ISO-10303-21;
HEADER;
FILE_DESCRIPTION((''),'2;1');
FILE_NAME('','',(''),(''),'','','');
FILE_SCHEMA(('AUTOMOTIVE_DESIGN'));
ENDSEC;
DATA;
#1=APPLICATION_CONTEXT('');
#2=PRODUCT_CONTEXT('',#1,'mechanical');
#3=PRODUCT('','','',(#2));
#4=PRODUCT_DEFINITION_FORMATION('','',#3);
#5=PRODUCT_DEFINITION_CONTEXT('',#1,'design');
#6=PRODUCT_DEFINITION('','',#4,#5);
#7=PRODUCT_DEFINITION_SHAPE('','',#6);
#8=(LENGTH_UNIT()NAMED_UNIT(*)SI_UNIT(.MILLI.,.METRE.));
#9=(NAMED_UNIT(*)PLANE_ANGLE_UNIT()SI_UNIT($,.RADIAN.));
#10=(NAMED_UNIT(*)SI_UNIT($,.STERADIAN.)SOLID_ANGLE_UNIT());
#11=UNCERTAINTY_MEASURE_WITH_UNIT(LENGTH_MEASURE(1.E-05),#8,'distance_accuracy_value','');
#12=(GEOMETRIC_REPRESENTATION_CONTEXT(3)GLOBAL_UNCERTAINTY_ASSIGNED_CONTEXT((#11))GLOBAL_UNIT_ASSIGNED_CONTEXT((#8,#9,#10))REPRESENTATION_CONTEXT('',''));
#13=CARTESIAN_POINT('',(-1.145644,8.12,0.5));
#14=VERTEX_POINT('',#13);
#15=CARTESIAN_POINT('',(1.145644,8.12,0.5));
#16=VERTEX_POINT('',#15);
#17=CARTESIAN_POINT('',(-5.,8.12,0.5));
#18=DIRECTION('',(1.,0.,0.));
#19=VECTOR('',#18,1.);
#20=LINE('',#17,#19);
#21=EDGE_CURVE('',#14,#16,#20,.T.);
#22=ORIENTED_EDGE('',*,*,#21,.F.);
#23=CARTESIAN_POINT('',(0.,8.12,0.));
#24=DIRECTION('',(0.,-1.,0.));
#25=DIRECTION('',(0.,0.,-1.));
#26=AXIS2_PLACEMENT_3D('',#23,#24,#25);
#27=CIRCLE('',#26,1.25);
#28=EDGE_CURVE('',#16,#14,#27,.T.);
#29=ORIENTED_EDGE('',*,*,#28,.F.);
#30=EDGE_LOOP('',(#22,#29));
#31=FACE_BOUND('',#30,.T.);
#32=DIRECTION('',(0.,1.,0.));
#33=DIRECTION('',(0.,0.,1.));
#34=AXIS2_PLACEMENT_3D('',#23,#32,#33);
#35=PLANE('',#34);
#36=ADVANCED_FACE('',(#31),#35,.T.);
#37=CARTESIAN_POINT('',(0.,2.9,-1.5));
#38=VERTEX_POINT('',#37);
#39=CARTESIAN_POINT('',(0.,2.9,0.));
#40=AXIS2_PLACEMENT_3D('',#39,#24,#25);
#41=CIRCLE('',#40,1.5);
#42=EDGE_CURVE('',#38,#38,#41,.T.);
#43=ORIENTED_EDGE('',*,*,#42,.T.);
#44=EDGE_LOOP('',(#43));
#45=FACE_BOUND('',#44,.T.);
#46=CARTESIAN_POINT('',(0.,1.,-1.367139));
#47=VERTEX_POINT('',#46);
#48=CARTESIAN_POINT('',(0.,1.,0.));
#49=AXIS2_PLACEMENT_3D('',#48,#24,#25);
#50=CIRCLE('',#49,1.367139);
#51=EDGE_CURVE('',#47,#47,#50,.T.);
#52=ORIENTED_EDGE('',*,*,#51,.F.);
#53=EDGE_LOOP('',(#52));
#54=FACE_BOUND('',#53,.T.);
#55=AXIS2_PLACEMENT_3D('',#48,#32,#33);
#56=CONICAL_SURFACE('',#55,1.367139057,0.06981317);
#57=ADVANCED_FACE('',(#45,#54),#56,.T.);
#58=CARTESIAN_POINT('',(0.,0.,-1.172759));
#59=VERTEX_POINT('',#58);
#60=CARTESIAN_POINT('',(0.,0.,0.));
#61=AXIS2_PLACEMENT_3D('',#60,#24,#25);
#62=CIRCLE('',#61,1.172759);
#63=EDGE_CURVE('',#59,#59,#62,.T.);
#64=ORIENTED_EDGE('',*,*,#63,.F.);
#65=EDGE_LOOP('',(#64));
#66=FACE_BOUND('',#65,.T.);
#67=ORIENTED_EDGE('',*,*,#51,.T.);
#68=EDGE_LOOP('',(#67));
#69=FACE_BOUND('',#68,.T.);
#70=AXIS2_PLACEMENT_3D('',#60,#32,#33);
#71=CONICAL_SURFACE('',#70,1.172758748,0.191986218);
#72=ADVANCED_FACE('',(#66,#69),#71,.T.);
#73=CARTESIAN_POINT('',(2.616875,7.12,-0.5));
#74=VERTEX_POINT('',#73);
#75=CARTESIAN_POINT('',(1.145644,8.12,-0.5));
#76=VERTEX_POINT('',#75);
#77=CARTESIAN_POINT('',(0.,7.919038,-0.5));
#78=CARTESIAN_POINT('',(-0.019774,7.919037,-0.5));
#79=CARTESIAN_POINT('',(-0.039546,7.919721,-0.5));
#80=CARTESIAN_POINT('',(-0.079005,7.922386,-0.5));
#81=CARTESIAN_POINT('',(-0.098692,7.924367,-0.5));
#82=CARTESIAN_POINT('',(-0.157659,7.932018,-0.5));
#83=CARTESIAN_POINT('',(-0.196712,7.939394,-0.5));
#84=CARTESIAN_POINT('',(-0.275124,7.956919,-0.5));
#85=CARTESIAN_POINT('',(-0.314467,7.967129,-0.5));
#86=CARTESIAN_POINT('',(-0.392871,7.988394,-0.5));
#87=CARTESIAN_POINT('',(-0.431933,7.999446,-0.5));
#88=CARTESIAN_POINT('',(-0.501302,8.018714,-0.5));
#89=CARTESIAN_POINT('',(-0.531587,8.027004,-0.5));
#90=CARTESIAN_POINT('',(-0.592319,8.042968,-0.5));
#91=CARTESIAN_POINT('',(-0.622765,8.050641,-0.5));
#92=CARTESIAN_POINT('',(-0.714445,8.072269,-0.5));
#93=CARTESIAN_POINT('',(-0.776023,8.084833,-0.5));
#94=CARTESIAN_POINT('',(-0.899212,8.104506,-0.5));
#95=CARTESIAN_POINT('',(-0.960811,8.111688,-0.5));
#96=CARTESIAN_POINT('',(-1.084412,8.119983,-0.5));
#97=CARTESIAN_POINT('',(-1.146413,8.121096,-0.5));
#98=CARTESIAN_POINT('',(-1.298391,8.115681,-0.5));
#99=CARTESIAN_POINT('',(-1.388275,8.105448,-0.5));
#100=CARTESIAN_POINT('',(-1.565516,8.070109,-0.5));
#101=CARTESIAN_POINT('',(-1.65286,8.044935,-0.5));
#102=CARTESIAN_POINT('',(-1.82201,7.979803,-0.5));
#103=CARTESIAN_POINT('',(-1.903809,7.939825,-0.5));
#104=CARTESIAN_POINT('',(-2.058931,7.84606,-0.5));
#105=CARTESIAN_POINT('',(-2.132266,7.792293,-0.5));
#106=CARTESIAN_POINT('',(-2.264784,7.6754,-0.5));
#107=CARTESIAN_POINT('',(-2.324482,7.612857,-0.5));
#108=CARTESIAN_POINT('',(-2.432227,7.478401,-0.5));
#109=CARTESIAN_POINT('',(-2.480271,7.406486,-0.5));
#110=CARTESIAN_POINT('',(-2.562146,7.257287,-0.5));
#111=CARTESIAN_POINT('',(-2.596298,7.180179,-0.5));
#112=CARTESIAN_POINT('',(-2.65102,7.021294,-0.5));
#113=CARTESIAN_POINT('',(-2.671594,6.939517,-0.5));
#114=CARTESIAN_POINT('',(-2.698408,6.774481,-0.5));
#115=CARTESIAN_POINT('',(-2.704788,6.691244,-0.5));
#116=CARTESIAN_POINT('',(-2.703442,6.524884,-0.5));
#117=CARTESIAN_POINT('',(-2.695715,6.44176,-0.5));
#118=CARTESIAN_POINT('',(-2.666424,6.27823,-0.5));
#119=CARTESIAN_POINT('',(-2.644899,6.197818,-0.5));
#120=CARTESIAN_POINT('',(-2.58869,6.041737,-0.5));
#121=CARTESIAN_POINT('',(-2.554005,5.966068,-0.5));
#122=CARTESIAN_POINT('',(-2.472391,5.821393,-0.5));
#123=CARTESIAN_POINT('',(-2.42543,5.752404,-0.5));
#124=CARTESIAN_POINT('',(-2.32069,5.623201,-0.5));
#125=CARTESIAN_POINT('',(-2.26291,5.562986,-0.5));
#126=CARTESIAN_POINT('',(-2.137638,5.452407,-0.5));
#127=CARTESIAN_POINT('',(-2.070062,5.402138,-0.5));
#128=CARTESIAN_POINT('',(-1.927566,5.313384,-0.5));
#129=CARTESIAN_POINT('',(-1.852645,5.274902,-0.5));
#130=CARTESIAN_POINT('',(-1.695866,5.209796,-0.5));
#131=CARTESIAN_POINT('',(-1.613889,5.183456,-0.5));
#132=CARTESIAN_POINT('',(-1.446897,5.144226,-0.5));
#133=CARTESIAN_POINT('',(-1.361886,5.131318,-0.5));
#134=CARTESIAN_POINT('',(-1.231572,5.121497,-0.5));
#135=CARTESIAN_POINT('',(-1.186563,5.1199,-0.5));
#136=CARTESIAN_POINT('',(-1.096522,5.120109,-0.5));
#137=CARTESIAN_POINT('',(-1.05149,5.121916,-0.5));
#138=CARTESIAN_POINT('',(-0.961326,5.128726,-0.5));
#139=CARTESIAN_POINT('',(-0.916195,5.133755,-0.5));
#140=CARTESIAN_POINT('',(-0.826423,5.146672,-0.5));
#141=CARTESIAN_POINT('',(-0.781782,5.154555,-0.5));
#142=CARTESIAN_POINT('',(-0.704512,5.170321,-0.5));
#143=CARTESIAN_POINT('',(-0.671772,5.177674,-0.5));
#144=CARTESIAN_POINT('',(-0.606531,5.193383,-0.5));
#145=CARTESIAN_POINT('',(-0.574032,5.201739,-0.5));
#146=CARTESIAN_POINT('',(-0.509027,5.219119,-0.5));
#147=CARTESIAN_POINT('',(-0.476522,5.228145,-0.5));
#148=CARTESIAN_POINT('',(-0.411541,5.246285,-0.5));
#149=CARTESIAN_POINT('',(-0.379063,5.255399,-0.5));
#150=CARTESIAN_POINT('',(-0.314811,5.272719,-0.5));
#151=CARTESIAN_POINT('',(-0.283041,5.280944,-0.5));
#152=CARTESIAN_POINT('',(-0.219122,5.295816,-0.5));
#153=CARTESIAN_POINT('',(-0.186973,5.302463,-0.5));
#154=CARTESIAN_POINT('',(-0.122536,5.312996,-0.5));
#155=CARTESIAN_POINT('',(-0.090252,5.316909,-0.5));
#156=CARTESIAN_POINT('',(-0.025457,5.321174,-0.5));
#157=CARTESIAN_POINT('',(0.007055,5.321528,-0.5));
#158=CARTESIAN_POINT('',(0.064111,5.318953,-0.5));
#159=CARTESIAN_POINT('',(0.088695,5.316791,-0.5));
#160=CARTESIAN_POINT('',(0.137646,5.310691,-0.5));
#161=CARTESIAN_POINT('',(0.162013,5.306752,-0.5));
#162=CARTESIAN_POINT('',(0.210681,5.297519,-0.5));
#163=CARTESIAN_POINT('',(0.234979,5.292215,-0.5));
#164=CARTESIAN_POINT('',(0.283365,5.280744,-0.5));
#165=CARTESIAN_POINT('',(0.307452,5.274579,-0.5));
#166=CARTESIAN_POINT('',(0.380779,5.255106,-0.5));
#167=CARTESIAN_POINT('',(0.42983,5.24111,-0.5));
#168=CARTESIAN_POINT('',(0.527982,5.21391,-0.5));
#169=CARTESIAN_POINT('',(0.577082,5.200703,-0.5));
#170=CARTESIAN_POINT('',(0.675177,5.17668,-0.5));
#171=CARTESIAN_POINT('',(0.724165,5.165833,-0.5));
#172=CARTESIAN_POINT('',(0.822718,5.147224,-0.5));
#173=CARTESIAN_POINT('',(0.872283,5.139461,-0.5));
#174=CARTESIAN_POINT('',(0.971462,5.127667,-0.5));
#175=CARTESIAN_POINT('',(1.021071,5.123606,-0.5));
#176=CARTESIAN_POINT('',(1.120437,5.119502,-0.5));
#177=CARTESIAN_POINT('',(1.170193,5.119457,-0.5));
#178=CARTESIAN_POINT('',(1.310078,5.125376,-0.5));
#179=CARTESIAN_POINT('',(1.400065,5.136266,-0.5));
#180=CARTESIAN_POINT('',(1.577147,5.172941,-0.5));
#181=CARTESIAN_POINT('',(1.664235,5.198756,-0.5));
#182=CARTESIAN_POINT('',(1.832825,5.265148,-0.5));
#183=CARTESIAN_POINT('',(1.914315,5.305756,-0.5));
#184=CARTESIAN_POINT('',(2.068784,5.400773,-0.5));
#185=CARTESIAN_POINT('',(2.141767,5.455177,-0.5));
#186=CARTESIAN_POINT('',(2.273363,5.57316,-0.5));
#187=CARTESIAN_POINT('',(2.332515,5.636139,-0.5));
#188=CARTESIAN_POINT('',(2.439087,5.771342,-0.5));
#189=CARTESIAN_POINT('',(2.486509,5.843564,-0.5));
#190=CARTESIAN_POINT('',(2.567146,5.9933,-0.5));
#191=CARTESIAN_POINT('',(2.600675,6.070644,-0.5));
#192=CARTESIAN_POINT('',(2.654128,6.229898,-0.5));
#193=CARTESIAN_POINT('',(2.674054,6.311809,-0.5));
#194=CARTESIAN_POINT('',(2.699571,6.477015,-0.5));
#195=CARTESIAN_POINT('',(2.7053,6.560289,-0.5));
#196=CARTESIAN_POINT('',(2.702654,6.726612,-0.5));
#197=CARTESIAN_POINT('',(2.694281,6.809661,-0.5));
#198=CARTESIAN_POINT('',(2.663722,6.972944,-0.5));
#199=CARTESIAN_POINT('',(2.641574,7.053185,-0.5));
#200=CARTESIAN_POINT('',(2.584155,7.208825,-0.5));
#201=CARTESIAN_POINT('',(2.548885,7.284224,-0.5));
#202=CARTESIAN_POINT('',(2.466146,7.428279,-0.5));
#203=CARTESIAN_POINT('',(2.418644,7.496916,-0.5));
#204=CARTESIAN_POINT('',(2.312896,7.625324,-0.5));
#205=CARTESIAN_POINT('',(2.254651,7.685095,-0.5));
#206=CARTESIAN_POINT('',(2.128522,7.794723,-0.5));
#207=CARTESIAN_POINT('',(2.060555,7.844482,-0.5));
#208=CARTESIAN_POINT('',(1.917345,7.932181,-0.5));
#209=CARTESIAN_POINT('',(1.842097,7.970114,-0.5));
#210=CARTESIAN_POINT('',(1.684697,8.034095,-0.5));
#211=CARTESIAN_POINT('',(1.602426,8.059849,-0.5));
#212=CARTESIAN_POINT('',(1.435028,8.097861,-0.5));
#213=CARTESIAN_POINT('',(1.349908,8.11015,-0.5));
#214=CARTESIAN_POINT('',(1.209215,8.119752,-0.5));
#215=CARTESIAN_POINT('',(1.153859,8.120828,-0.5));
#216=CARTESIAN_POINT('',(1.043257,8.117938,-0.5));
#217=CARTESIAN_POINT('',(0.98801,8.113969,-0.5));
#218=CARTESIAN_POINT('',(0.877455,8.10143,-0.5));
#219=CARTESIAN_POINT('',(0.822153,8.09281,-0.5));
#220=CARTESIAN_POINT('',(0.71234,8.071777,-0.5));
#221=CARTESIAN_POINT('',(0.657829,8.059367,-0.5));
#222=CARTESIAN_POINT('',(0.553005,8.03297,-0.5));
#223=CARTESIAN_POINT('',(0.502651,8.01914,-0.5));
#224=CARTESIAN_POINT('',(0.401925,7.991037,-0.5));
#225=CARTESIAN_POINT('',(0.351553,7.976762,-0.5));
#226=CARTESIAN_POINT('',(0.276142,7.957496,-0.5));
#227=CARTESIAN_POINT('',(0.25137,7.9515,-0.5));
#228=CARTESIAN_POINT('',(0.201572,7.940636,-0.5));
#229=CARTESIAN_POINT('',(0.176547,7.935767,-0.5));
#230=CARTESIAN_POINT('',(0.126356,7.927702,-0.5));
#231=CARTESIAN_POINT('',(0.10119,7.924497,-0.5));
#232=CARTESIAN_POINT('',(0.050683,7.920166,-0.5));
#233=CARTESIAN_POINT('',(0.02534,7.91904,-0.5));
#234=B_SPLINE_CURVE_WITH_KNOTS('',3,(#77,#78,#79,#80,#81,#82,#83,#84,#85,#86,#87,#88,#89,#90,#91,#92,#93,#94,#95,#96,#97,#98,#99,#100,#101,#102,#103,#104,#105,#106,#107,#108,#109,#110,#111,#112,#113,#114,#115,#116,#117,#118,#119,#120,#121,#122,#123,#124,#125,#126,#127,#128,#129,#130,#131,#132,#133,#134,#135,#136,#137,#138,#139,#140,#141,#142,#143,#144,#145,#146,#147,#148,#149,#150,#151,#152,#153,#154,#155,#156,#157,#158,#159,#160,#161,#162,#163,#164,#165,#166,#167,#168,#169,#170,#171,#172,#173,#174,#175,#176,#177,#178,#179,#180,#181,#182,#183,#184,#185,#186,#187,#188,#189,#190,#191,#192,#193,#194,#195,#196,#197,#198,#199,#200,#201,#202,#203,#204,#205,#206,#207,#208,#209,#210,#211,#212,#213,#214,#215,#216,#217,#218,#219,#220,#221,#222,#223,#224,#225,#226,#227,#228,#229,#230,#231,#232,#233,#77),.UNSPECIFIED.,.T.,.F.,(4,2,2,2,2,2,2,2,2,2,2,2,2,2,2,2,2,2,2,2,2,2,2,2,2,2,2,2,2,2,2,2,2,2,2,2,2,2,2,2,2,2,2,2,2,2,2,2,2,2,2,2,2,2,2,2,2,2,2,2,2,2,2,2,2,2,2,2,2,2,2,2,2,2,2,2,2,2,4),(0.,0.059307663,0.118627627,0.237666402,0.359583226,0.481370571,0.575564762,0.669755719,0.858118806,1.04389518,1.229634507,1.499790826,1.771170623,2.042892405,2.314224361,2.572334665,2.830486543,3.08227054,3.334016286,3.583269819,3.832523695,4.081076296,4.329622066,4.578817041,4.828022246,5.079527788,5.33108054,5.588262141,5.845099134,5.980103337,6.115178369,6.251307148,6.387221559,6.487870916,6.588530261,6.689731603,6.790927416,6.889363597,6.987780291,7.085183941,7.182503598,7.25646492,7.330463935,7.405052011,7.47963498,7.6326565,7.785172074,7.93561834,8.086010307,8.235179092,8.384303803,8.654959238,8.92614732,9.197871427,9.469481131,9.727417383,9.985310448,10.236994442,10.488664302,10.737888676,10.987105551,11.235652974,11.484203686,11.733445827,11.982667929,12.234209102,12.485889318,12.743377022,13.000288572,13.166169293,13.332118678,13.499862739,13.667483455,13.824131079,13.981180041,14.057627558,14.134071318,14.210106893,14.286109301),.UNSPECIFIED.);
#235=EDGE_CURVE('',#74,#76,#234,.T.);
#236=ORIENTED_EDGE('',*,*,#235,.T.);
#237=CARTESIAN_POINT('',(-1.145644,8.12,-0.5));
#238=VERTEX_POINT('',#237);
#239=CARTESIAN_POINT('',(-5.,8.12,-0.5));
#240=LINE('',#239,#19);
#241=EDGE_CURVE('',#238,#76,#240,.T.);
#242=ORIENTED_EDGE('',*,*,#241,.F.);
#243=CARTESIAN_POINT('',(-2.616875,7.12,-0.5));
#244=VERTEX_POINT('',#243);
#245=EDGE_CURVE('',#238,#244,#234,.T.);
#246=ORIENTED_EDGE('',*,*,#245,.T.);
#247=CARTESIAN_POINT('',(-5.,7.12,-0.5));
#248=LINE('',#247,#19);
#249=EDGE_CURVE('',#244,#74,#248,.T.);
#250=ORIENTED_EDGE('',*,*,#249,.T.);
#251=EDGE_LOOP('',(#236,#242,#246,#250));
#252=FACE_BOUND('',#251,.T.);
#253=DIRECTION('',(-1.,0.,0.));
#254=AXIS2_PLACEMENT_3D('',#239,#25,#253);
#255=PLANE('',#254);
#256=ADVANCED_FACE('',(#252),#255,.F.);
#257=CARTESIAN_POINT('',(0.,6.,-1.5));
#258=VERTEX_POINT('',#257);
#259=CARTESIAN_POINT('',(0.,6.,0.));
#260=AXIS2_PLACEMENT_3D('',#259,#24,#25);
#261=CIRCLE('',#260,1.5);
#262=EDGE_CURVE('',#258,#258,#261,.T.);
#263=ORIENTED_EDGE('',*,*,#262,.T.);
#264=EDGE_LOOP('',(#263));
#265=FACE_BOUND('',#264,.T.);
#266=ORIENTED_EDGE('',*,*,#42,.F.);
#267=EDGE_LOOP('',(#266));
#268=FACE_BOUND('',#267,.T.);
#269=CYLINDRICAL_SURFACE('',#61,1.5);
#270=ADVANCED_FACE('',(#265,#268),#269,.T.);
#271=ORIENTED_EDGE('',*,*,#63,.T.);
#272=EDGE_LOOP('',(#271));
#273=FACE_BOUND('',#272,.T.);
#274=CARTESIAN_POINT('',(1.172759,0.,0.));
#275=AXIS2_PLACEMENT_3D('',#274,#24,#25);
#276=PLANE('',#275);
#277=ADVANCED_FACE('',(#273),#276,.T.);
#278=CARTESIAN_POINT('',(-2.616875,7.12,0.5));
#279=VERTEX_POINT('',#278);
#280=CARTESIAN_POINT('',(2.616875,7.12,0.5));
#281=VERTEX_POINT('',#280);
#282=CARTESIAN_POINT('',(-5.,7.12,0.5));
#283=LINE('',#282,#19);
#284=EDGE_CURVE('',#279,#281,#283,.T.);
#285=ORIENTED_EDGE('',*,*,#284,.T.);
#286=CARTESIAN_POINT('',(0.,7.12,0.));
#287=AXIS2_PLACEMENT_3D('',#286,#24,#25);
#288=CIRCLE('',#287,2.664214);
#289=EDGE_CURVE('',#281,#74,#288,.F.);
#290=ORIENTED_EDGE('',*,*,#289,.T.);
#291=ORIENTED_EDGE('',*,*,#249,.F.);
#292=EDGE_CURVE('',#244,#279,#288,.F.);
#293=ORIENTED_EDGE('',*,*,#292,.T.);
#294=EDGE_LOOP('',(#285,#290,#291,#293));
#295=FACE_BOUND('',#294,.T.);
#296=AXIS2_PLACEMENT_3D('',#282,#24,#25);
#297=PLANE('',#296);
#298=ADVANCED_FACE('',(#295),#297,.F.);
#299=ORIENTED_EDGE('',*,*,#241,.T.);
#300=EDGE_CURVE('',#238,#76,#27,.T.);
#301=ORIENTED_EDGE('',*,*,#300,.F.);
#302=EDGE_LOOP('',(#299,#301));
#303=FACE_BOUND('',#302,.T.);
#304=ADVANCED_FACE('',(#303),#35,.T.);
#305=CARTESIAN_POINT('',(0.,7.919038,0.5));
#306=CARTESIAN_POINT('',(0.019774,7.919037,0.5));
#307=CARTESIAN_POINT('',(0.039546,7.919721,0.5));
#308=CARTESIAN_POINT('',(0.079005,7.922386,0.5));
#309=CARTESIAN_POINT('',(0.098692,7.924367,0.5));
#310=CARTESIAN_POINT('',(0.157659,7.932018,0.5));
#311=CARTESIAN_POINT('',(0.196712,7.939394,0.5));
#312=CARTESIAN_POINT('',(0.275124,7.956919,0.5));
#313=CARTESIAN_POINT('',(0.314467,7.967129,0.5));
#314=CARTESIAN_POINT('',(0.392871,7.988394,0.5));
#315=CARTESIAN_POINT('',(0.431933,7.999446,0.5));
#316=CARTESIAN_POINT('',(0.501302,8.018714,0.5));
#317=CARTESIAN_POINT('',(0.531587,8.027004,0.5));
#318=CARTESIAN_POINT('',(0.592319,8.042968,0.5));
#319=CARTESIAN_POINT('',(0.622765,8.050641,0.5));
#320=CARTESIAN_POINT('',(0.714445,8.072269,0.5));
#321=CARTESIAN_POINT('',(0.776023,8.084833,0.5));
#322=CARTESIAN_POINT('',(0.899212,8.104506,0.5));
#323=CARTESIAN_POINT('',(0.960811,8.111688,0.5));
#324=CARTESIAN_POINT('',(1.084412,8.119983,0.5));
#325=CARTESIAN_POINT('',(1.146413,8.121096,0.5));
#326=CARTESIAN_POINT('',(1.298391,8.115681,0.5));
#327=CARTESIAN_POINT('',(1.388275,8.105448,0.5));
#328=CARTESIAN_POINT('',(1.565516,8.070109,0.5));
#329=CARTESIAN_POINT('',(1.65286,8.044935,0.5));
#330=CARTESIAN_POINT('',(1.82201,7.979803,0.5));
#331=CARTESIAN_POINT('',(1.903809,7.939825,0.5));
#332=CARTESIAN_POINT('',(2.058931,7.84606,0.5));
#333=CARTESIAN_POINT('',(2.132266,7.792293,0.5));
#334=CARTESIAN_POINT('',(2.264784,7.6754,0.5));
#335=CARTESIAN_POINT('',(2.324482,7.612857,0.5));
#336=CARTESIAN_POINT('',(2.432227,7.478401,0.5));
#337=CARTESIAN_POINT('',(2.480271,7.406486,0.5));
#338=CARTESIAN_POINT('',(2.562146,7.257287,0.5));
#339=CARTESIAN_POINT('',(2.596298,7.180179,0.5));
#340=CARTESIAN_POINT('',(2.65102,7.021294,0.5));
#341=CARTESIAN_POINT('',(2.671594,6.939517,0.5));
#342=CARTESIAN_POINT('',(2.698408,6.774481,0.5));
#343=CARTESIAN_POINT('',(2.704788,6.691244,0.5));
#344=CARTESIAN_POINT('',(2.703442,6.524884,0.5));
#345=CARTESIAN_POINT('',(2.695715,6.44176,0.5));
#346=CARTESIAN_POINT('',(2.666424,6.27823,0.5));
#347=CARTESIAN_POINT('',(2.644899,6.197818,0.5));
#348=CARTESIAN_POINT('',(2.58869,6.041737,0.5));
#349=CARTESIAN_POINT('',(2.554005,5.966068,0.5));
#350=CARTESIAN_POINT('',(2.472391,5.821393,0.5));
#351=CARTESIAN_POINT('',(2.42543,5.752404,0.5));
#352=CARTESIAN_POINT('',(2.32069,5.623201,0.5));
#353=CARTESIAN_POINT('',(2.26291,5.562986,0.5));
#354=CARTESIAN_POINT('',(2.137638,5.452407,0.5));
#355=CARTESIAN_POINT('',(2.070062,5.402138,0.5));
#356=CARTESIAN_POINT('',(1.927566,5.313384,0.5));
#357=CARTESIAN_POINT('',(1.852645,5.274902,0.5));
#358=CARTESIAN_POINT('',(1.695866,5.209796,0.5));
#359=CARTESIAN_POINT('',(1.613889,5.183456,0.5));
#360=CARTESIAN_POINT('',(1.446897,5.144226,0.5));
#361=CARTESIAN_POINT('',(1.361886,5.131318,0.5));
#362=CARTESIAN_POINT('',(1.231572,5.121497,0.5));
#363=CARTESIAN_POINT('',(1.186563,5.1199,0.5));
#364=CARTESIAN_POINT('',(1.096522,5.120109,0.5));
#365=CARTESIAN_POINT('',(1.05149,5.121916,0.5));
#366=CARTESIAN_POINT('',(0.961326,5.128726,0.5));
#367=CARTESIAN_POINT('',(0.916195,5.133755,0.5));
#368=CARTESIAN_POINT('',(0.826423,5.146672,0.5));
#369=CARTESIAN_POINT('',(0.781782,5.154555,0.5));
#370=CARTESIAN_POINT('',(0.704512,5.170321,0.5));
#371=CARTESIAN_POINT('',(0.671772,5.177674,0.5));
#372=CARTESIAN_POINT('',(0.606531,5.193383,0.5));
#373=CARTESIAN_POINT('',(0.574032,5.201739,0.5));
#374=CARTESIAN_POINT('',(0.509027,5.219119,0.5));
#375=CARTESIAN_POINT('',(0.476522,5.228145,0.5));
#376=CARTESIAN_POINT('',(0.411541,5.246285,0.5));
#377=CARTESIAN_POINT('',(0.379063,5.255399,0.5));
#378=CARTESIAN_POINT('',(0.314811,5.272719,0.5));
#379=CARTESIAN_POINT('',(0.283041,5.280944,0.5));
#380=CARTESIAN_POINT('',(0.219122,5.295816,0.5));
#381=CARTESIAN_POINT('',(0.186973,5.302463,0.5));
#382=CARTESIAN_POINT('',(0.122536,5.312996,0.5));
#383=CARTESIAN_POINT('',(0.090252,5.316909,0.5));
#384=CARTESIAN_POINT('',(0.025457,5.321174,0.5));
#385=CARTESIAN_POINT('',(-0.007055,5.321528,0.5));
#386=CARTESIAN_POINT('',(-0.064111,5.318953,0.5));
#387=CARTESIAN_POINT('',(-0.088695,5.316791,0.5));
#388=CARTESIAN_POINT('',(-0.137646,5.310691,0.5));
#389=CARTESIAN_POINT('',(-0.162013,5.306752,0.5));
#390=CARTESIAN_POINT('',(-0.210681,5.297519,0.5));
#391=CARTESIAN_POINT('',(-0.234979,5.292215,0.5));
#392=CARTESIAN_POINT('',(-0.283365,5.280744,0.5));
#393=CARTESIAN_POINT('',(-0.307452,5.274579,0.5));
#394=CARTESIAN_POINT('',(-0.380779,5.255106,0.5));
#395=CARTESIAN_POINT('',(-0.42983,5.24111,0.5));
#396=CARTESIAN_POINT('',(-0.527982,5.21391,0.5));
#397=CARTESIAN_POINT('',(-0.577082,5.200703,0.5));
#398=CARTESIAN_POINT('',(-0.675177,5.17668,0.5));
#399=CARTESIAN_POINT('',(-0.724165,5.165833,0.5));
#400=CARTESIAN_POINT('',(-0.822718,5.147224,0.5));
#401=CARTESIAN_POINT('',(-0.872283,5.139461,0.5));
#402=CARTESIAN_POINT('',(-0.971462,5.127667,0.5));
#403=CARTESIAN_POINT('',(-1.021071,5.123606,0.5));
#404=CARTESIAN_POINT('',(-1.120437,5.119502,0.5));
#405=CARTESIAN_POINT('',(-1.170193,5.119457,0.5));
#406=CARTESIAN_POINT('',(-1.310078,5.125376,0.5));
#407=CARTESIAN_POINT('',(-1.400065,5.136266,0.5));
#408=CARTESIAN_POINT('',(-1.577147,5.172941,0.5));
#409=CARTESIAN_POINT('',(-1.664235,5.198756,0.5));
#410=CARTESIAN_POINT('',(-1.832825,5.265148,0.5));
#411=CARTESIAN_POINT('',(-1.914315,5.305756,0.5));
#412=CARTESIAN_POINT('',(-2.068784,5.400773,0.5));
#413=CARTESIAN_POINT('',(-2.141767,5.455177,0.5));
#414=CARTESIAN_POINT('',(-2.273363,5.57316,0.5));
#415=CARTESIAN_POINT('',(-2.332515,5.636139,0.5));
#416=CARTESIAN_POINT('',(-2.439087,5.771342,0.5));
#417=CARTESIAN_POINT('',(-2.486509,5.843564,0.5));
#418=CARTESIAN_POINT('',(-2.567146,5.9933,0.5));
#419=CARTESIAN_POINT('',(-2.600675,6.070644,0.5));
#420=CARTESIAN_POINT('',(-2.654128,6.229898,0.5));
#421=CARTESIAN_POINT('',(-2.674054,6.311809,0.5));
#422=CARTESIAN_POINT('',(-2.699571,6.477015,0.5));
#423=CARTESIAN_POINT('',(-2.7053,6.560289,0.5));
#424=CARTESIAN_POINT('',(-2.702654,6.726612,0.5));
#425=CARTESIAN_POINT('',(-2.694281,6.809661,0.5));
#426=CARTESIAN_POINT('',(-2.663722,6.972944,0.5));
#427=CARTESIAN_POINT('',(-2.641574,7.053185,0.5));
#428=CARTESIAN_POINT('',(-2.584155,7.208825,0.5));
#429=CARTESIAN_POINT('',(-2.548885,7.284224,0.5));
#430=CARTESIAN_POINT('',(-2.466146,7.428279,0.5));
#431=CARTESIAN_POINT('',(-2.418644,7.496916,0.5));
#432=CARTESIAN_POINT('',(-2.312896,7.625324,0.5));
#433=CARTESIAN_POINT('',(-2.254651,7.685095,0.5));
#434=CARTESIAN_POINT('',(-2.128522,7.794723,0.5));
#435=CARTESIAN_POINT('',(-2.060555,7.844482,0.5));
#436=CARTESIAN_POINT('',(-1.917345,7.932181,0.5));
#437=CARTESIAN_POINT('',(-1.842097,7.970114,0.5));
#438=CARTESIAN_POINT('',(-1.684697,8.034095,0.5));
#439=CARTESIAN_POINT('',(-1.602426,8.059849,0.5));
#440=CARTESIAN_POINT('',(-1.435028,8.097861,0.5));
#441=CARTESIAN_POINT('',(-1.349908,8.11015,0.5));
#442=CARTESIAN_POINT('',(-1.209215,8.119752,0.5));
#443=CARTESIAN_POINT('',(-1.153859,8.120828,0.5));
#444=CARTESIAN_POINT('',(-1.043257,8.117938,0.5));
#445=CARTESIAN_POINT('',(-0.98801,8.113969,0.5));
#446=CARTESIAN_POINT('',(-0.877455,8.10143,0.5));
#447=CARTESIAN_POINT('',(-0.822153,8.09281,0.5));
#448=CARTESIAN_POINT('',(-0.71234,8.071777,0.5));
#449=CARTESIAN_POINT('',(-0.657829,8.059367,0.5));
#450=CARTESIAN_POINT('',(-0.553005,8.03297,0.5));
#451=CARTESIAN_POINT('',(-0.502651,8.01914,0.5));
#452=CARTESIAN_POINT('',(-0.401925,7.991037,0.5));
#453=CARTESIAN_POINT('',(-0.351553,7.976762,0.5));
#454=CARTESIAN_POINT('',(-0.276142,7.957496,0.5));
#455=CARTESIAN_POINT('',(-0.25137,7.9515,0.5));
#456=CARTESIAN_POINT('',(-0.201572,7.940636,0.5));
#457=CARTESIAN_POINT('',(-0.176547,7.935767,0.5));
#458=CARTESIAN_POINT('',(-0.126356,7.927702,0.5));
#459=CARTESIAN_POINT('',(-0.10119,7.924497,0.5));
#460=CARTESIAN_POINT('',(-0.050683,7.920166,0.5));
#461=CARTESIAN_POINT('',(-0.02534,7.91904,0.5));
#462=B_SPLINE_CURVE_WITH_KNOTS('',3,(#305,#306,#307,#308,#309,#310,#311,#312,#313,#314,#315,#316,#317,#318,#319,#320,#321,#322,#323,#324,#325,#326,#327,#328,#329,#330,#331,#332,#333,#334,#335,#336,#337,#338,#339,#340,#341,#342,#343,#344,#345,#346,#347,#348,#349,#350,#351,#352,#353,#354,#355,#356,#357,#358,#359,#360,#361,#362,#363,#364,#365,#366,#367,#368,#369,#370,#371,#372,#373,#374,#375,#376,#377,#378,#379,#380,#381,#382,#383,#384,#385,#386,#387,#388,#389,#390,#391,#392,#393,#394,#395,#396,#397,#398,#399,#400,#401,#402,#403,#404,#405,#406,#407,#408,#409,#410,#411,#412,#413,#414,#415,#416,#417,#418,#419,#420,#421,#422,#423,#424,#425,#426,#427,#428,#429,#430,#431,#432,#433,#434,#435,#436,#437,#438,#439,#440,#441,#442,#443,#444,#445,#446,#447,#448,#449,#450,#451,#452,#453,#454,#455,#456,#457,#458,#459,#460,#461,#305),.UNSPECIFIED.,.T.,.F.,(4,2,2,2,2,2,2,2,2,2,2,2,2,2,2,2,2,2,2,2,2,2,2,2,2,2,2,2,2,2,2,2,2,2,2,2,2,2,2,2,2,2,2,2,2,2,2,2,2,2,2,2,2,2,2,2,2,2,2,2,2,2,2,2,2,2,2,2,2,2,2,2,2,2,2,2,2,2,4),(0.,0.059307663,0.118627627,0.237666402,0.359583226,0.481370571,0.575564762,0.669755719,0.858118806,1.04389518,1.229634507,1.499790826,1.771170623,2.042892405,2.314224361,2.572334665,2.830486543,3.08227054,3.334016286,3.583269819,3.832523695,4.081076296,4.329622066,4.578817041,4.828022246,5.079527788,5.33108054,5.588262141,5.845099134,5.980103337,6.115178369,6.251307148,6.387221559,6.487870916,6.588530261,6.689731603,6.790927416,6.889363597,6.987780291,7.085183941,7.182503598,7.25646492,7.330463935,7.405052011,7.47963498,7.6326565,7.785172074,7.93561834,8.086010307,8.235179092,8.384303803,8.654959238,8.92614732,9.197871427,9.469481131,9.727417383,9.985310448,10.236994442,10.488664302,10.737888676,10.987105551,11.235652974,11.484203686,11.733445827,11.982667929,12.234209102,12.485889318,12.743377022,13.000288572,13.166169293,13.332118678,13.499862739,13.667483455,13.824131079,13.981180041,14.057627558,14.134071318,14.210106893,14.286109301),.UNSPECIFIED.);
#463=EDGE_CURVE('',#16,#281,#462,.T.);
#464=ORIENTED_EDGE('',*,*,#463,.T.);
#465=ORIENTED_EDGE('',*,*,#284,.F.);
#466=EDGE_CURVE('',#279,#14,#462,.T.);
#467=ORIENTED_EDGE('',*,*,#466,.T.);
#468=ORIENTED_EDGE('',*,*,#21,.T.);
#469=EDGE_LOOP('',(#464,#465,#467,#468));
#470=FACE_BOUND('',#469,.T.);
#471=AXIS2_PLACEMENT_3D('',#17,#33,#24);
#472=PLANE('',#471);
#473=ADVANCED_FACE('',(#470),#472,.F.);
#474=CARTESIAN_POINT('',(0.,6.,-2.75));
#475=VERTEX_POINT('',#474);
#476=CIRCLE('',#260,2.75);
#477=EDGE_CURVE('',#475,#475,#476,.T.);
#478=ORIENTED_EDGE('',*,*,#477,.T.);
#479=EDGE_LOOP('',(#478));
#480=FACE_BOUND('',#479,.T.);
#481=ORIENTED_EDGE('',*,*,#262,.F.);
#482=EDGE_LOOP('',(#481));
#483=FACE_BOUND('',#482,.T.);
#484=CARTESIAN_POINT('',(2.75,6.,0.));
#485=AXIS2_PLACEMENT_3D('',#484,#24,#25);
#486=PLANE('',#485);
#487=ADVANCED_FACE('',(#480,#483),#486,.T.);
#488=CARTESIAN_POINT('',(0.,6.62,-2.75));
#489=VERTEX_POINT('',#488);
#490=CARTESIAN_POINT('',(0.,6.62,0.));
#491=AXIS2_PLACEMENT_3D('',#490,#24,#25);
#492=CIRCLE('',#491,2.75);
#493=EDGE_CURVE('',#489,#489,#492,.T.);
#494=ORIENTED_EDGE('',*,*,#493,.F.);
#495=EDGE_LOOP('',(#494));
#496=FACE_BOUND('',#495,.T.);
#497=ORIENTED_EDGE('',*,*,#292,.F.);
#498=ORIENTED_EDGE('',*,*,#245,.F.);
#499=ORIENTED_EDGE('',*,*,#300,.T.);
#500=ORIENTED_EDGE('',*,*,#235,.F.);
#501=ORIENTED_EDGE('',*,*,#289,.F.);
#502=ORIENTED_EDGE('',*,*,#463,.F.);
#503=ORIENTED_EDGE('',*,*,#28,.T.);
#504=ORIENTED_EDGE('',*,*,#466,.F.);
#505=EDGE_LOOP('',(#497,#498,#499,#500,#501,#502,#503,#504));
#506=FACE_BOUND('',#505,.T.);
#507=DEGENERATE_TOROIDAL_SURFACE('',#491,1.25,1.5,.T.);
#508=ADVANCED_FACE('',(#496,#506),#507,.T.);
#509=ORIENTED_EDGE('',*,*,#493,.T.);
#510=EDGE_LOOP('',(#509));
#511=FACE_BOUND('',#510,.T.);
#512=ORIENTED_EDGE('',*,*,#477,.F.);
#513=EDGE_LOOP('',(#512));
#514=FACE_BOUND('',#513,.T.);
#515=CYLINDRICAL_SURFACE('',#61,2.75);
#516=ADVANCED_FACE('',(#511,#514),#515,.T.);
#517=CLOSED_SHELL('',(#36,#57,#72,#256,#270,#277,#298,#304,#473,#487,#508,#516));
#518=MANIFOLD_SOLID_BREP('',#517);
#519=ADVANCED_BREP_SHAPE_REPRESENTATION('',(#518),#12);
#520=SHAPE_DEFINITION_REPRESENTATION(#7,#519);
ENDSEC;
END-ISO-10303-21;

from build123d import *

# Parameters (mm, degrees)
SKETCH_2_W          = 1
SKETCH_2_H          = 1
CUT_EXTRUDE_1_DEPTH = 5


with BuildPart() as part:
    # Эскиз1 → Повернуть1 (revolve)
    with BuildSketch(Plane.XY, mode=Mode.PRIVATE) as revolve_1_sk:
        with BuildLine():
            Line((0, 0), (0, 8.12))
            Line((0, 8.12), (1.25, 8.12))
            ThreePointArc((1.25, 8.12), (2.310660172, 7.680660172), (2.75, 6.62))
            Line((2.75, 6.62), (2.75, 6))
            Line((2.75, 6), (1.5, 6))
            Line((1.5, 6), (1.5, 2.9))
            Line((1.5, 2.9), (1.367139057, 1))
            Line((1.367139057, 1), (1.172758748, 0))
            Line((1.172758748, 0), (0, 0))
        make_face()
    revolve(revolve_1_sk.sketch.rotate(Axis((0, 0, 0), (0, 1, 0)), 90), axis=Axis((0, 0, 0), (0, 1, 0)))

    # Эскиз2 → Вырез-Вытянуть1 (cut, symmetric)
    with BuildSketch(Plane(origin=(0, 0, 0), x_dir=(0, 0, -1), z_dir=(1, 0, 0))):
        with Locations((0, 7.62)):
            Rectangle(SKETCH_2_W, SKETCH_2_H)
    extrude(amount=CUT_EXTRUDE_1_DEPTH, both=True, mode=Mode.SUBTRACT)


solid = part.part
